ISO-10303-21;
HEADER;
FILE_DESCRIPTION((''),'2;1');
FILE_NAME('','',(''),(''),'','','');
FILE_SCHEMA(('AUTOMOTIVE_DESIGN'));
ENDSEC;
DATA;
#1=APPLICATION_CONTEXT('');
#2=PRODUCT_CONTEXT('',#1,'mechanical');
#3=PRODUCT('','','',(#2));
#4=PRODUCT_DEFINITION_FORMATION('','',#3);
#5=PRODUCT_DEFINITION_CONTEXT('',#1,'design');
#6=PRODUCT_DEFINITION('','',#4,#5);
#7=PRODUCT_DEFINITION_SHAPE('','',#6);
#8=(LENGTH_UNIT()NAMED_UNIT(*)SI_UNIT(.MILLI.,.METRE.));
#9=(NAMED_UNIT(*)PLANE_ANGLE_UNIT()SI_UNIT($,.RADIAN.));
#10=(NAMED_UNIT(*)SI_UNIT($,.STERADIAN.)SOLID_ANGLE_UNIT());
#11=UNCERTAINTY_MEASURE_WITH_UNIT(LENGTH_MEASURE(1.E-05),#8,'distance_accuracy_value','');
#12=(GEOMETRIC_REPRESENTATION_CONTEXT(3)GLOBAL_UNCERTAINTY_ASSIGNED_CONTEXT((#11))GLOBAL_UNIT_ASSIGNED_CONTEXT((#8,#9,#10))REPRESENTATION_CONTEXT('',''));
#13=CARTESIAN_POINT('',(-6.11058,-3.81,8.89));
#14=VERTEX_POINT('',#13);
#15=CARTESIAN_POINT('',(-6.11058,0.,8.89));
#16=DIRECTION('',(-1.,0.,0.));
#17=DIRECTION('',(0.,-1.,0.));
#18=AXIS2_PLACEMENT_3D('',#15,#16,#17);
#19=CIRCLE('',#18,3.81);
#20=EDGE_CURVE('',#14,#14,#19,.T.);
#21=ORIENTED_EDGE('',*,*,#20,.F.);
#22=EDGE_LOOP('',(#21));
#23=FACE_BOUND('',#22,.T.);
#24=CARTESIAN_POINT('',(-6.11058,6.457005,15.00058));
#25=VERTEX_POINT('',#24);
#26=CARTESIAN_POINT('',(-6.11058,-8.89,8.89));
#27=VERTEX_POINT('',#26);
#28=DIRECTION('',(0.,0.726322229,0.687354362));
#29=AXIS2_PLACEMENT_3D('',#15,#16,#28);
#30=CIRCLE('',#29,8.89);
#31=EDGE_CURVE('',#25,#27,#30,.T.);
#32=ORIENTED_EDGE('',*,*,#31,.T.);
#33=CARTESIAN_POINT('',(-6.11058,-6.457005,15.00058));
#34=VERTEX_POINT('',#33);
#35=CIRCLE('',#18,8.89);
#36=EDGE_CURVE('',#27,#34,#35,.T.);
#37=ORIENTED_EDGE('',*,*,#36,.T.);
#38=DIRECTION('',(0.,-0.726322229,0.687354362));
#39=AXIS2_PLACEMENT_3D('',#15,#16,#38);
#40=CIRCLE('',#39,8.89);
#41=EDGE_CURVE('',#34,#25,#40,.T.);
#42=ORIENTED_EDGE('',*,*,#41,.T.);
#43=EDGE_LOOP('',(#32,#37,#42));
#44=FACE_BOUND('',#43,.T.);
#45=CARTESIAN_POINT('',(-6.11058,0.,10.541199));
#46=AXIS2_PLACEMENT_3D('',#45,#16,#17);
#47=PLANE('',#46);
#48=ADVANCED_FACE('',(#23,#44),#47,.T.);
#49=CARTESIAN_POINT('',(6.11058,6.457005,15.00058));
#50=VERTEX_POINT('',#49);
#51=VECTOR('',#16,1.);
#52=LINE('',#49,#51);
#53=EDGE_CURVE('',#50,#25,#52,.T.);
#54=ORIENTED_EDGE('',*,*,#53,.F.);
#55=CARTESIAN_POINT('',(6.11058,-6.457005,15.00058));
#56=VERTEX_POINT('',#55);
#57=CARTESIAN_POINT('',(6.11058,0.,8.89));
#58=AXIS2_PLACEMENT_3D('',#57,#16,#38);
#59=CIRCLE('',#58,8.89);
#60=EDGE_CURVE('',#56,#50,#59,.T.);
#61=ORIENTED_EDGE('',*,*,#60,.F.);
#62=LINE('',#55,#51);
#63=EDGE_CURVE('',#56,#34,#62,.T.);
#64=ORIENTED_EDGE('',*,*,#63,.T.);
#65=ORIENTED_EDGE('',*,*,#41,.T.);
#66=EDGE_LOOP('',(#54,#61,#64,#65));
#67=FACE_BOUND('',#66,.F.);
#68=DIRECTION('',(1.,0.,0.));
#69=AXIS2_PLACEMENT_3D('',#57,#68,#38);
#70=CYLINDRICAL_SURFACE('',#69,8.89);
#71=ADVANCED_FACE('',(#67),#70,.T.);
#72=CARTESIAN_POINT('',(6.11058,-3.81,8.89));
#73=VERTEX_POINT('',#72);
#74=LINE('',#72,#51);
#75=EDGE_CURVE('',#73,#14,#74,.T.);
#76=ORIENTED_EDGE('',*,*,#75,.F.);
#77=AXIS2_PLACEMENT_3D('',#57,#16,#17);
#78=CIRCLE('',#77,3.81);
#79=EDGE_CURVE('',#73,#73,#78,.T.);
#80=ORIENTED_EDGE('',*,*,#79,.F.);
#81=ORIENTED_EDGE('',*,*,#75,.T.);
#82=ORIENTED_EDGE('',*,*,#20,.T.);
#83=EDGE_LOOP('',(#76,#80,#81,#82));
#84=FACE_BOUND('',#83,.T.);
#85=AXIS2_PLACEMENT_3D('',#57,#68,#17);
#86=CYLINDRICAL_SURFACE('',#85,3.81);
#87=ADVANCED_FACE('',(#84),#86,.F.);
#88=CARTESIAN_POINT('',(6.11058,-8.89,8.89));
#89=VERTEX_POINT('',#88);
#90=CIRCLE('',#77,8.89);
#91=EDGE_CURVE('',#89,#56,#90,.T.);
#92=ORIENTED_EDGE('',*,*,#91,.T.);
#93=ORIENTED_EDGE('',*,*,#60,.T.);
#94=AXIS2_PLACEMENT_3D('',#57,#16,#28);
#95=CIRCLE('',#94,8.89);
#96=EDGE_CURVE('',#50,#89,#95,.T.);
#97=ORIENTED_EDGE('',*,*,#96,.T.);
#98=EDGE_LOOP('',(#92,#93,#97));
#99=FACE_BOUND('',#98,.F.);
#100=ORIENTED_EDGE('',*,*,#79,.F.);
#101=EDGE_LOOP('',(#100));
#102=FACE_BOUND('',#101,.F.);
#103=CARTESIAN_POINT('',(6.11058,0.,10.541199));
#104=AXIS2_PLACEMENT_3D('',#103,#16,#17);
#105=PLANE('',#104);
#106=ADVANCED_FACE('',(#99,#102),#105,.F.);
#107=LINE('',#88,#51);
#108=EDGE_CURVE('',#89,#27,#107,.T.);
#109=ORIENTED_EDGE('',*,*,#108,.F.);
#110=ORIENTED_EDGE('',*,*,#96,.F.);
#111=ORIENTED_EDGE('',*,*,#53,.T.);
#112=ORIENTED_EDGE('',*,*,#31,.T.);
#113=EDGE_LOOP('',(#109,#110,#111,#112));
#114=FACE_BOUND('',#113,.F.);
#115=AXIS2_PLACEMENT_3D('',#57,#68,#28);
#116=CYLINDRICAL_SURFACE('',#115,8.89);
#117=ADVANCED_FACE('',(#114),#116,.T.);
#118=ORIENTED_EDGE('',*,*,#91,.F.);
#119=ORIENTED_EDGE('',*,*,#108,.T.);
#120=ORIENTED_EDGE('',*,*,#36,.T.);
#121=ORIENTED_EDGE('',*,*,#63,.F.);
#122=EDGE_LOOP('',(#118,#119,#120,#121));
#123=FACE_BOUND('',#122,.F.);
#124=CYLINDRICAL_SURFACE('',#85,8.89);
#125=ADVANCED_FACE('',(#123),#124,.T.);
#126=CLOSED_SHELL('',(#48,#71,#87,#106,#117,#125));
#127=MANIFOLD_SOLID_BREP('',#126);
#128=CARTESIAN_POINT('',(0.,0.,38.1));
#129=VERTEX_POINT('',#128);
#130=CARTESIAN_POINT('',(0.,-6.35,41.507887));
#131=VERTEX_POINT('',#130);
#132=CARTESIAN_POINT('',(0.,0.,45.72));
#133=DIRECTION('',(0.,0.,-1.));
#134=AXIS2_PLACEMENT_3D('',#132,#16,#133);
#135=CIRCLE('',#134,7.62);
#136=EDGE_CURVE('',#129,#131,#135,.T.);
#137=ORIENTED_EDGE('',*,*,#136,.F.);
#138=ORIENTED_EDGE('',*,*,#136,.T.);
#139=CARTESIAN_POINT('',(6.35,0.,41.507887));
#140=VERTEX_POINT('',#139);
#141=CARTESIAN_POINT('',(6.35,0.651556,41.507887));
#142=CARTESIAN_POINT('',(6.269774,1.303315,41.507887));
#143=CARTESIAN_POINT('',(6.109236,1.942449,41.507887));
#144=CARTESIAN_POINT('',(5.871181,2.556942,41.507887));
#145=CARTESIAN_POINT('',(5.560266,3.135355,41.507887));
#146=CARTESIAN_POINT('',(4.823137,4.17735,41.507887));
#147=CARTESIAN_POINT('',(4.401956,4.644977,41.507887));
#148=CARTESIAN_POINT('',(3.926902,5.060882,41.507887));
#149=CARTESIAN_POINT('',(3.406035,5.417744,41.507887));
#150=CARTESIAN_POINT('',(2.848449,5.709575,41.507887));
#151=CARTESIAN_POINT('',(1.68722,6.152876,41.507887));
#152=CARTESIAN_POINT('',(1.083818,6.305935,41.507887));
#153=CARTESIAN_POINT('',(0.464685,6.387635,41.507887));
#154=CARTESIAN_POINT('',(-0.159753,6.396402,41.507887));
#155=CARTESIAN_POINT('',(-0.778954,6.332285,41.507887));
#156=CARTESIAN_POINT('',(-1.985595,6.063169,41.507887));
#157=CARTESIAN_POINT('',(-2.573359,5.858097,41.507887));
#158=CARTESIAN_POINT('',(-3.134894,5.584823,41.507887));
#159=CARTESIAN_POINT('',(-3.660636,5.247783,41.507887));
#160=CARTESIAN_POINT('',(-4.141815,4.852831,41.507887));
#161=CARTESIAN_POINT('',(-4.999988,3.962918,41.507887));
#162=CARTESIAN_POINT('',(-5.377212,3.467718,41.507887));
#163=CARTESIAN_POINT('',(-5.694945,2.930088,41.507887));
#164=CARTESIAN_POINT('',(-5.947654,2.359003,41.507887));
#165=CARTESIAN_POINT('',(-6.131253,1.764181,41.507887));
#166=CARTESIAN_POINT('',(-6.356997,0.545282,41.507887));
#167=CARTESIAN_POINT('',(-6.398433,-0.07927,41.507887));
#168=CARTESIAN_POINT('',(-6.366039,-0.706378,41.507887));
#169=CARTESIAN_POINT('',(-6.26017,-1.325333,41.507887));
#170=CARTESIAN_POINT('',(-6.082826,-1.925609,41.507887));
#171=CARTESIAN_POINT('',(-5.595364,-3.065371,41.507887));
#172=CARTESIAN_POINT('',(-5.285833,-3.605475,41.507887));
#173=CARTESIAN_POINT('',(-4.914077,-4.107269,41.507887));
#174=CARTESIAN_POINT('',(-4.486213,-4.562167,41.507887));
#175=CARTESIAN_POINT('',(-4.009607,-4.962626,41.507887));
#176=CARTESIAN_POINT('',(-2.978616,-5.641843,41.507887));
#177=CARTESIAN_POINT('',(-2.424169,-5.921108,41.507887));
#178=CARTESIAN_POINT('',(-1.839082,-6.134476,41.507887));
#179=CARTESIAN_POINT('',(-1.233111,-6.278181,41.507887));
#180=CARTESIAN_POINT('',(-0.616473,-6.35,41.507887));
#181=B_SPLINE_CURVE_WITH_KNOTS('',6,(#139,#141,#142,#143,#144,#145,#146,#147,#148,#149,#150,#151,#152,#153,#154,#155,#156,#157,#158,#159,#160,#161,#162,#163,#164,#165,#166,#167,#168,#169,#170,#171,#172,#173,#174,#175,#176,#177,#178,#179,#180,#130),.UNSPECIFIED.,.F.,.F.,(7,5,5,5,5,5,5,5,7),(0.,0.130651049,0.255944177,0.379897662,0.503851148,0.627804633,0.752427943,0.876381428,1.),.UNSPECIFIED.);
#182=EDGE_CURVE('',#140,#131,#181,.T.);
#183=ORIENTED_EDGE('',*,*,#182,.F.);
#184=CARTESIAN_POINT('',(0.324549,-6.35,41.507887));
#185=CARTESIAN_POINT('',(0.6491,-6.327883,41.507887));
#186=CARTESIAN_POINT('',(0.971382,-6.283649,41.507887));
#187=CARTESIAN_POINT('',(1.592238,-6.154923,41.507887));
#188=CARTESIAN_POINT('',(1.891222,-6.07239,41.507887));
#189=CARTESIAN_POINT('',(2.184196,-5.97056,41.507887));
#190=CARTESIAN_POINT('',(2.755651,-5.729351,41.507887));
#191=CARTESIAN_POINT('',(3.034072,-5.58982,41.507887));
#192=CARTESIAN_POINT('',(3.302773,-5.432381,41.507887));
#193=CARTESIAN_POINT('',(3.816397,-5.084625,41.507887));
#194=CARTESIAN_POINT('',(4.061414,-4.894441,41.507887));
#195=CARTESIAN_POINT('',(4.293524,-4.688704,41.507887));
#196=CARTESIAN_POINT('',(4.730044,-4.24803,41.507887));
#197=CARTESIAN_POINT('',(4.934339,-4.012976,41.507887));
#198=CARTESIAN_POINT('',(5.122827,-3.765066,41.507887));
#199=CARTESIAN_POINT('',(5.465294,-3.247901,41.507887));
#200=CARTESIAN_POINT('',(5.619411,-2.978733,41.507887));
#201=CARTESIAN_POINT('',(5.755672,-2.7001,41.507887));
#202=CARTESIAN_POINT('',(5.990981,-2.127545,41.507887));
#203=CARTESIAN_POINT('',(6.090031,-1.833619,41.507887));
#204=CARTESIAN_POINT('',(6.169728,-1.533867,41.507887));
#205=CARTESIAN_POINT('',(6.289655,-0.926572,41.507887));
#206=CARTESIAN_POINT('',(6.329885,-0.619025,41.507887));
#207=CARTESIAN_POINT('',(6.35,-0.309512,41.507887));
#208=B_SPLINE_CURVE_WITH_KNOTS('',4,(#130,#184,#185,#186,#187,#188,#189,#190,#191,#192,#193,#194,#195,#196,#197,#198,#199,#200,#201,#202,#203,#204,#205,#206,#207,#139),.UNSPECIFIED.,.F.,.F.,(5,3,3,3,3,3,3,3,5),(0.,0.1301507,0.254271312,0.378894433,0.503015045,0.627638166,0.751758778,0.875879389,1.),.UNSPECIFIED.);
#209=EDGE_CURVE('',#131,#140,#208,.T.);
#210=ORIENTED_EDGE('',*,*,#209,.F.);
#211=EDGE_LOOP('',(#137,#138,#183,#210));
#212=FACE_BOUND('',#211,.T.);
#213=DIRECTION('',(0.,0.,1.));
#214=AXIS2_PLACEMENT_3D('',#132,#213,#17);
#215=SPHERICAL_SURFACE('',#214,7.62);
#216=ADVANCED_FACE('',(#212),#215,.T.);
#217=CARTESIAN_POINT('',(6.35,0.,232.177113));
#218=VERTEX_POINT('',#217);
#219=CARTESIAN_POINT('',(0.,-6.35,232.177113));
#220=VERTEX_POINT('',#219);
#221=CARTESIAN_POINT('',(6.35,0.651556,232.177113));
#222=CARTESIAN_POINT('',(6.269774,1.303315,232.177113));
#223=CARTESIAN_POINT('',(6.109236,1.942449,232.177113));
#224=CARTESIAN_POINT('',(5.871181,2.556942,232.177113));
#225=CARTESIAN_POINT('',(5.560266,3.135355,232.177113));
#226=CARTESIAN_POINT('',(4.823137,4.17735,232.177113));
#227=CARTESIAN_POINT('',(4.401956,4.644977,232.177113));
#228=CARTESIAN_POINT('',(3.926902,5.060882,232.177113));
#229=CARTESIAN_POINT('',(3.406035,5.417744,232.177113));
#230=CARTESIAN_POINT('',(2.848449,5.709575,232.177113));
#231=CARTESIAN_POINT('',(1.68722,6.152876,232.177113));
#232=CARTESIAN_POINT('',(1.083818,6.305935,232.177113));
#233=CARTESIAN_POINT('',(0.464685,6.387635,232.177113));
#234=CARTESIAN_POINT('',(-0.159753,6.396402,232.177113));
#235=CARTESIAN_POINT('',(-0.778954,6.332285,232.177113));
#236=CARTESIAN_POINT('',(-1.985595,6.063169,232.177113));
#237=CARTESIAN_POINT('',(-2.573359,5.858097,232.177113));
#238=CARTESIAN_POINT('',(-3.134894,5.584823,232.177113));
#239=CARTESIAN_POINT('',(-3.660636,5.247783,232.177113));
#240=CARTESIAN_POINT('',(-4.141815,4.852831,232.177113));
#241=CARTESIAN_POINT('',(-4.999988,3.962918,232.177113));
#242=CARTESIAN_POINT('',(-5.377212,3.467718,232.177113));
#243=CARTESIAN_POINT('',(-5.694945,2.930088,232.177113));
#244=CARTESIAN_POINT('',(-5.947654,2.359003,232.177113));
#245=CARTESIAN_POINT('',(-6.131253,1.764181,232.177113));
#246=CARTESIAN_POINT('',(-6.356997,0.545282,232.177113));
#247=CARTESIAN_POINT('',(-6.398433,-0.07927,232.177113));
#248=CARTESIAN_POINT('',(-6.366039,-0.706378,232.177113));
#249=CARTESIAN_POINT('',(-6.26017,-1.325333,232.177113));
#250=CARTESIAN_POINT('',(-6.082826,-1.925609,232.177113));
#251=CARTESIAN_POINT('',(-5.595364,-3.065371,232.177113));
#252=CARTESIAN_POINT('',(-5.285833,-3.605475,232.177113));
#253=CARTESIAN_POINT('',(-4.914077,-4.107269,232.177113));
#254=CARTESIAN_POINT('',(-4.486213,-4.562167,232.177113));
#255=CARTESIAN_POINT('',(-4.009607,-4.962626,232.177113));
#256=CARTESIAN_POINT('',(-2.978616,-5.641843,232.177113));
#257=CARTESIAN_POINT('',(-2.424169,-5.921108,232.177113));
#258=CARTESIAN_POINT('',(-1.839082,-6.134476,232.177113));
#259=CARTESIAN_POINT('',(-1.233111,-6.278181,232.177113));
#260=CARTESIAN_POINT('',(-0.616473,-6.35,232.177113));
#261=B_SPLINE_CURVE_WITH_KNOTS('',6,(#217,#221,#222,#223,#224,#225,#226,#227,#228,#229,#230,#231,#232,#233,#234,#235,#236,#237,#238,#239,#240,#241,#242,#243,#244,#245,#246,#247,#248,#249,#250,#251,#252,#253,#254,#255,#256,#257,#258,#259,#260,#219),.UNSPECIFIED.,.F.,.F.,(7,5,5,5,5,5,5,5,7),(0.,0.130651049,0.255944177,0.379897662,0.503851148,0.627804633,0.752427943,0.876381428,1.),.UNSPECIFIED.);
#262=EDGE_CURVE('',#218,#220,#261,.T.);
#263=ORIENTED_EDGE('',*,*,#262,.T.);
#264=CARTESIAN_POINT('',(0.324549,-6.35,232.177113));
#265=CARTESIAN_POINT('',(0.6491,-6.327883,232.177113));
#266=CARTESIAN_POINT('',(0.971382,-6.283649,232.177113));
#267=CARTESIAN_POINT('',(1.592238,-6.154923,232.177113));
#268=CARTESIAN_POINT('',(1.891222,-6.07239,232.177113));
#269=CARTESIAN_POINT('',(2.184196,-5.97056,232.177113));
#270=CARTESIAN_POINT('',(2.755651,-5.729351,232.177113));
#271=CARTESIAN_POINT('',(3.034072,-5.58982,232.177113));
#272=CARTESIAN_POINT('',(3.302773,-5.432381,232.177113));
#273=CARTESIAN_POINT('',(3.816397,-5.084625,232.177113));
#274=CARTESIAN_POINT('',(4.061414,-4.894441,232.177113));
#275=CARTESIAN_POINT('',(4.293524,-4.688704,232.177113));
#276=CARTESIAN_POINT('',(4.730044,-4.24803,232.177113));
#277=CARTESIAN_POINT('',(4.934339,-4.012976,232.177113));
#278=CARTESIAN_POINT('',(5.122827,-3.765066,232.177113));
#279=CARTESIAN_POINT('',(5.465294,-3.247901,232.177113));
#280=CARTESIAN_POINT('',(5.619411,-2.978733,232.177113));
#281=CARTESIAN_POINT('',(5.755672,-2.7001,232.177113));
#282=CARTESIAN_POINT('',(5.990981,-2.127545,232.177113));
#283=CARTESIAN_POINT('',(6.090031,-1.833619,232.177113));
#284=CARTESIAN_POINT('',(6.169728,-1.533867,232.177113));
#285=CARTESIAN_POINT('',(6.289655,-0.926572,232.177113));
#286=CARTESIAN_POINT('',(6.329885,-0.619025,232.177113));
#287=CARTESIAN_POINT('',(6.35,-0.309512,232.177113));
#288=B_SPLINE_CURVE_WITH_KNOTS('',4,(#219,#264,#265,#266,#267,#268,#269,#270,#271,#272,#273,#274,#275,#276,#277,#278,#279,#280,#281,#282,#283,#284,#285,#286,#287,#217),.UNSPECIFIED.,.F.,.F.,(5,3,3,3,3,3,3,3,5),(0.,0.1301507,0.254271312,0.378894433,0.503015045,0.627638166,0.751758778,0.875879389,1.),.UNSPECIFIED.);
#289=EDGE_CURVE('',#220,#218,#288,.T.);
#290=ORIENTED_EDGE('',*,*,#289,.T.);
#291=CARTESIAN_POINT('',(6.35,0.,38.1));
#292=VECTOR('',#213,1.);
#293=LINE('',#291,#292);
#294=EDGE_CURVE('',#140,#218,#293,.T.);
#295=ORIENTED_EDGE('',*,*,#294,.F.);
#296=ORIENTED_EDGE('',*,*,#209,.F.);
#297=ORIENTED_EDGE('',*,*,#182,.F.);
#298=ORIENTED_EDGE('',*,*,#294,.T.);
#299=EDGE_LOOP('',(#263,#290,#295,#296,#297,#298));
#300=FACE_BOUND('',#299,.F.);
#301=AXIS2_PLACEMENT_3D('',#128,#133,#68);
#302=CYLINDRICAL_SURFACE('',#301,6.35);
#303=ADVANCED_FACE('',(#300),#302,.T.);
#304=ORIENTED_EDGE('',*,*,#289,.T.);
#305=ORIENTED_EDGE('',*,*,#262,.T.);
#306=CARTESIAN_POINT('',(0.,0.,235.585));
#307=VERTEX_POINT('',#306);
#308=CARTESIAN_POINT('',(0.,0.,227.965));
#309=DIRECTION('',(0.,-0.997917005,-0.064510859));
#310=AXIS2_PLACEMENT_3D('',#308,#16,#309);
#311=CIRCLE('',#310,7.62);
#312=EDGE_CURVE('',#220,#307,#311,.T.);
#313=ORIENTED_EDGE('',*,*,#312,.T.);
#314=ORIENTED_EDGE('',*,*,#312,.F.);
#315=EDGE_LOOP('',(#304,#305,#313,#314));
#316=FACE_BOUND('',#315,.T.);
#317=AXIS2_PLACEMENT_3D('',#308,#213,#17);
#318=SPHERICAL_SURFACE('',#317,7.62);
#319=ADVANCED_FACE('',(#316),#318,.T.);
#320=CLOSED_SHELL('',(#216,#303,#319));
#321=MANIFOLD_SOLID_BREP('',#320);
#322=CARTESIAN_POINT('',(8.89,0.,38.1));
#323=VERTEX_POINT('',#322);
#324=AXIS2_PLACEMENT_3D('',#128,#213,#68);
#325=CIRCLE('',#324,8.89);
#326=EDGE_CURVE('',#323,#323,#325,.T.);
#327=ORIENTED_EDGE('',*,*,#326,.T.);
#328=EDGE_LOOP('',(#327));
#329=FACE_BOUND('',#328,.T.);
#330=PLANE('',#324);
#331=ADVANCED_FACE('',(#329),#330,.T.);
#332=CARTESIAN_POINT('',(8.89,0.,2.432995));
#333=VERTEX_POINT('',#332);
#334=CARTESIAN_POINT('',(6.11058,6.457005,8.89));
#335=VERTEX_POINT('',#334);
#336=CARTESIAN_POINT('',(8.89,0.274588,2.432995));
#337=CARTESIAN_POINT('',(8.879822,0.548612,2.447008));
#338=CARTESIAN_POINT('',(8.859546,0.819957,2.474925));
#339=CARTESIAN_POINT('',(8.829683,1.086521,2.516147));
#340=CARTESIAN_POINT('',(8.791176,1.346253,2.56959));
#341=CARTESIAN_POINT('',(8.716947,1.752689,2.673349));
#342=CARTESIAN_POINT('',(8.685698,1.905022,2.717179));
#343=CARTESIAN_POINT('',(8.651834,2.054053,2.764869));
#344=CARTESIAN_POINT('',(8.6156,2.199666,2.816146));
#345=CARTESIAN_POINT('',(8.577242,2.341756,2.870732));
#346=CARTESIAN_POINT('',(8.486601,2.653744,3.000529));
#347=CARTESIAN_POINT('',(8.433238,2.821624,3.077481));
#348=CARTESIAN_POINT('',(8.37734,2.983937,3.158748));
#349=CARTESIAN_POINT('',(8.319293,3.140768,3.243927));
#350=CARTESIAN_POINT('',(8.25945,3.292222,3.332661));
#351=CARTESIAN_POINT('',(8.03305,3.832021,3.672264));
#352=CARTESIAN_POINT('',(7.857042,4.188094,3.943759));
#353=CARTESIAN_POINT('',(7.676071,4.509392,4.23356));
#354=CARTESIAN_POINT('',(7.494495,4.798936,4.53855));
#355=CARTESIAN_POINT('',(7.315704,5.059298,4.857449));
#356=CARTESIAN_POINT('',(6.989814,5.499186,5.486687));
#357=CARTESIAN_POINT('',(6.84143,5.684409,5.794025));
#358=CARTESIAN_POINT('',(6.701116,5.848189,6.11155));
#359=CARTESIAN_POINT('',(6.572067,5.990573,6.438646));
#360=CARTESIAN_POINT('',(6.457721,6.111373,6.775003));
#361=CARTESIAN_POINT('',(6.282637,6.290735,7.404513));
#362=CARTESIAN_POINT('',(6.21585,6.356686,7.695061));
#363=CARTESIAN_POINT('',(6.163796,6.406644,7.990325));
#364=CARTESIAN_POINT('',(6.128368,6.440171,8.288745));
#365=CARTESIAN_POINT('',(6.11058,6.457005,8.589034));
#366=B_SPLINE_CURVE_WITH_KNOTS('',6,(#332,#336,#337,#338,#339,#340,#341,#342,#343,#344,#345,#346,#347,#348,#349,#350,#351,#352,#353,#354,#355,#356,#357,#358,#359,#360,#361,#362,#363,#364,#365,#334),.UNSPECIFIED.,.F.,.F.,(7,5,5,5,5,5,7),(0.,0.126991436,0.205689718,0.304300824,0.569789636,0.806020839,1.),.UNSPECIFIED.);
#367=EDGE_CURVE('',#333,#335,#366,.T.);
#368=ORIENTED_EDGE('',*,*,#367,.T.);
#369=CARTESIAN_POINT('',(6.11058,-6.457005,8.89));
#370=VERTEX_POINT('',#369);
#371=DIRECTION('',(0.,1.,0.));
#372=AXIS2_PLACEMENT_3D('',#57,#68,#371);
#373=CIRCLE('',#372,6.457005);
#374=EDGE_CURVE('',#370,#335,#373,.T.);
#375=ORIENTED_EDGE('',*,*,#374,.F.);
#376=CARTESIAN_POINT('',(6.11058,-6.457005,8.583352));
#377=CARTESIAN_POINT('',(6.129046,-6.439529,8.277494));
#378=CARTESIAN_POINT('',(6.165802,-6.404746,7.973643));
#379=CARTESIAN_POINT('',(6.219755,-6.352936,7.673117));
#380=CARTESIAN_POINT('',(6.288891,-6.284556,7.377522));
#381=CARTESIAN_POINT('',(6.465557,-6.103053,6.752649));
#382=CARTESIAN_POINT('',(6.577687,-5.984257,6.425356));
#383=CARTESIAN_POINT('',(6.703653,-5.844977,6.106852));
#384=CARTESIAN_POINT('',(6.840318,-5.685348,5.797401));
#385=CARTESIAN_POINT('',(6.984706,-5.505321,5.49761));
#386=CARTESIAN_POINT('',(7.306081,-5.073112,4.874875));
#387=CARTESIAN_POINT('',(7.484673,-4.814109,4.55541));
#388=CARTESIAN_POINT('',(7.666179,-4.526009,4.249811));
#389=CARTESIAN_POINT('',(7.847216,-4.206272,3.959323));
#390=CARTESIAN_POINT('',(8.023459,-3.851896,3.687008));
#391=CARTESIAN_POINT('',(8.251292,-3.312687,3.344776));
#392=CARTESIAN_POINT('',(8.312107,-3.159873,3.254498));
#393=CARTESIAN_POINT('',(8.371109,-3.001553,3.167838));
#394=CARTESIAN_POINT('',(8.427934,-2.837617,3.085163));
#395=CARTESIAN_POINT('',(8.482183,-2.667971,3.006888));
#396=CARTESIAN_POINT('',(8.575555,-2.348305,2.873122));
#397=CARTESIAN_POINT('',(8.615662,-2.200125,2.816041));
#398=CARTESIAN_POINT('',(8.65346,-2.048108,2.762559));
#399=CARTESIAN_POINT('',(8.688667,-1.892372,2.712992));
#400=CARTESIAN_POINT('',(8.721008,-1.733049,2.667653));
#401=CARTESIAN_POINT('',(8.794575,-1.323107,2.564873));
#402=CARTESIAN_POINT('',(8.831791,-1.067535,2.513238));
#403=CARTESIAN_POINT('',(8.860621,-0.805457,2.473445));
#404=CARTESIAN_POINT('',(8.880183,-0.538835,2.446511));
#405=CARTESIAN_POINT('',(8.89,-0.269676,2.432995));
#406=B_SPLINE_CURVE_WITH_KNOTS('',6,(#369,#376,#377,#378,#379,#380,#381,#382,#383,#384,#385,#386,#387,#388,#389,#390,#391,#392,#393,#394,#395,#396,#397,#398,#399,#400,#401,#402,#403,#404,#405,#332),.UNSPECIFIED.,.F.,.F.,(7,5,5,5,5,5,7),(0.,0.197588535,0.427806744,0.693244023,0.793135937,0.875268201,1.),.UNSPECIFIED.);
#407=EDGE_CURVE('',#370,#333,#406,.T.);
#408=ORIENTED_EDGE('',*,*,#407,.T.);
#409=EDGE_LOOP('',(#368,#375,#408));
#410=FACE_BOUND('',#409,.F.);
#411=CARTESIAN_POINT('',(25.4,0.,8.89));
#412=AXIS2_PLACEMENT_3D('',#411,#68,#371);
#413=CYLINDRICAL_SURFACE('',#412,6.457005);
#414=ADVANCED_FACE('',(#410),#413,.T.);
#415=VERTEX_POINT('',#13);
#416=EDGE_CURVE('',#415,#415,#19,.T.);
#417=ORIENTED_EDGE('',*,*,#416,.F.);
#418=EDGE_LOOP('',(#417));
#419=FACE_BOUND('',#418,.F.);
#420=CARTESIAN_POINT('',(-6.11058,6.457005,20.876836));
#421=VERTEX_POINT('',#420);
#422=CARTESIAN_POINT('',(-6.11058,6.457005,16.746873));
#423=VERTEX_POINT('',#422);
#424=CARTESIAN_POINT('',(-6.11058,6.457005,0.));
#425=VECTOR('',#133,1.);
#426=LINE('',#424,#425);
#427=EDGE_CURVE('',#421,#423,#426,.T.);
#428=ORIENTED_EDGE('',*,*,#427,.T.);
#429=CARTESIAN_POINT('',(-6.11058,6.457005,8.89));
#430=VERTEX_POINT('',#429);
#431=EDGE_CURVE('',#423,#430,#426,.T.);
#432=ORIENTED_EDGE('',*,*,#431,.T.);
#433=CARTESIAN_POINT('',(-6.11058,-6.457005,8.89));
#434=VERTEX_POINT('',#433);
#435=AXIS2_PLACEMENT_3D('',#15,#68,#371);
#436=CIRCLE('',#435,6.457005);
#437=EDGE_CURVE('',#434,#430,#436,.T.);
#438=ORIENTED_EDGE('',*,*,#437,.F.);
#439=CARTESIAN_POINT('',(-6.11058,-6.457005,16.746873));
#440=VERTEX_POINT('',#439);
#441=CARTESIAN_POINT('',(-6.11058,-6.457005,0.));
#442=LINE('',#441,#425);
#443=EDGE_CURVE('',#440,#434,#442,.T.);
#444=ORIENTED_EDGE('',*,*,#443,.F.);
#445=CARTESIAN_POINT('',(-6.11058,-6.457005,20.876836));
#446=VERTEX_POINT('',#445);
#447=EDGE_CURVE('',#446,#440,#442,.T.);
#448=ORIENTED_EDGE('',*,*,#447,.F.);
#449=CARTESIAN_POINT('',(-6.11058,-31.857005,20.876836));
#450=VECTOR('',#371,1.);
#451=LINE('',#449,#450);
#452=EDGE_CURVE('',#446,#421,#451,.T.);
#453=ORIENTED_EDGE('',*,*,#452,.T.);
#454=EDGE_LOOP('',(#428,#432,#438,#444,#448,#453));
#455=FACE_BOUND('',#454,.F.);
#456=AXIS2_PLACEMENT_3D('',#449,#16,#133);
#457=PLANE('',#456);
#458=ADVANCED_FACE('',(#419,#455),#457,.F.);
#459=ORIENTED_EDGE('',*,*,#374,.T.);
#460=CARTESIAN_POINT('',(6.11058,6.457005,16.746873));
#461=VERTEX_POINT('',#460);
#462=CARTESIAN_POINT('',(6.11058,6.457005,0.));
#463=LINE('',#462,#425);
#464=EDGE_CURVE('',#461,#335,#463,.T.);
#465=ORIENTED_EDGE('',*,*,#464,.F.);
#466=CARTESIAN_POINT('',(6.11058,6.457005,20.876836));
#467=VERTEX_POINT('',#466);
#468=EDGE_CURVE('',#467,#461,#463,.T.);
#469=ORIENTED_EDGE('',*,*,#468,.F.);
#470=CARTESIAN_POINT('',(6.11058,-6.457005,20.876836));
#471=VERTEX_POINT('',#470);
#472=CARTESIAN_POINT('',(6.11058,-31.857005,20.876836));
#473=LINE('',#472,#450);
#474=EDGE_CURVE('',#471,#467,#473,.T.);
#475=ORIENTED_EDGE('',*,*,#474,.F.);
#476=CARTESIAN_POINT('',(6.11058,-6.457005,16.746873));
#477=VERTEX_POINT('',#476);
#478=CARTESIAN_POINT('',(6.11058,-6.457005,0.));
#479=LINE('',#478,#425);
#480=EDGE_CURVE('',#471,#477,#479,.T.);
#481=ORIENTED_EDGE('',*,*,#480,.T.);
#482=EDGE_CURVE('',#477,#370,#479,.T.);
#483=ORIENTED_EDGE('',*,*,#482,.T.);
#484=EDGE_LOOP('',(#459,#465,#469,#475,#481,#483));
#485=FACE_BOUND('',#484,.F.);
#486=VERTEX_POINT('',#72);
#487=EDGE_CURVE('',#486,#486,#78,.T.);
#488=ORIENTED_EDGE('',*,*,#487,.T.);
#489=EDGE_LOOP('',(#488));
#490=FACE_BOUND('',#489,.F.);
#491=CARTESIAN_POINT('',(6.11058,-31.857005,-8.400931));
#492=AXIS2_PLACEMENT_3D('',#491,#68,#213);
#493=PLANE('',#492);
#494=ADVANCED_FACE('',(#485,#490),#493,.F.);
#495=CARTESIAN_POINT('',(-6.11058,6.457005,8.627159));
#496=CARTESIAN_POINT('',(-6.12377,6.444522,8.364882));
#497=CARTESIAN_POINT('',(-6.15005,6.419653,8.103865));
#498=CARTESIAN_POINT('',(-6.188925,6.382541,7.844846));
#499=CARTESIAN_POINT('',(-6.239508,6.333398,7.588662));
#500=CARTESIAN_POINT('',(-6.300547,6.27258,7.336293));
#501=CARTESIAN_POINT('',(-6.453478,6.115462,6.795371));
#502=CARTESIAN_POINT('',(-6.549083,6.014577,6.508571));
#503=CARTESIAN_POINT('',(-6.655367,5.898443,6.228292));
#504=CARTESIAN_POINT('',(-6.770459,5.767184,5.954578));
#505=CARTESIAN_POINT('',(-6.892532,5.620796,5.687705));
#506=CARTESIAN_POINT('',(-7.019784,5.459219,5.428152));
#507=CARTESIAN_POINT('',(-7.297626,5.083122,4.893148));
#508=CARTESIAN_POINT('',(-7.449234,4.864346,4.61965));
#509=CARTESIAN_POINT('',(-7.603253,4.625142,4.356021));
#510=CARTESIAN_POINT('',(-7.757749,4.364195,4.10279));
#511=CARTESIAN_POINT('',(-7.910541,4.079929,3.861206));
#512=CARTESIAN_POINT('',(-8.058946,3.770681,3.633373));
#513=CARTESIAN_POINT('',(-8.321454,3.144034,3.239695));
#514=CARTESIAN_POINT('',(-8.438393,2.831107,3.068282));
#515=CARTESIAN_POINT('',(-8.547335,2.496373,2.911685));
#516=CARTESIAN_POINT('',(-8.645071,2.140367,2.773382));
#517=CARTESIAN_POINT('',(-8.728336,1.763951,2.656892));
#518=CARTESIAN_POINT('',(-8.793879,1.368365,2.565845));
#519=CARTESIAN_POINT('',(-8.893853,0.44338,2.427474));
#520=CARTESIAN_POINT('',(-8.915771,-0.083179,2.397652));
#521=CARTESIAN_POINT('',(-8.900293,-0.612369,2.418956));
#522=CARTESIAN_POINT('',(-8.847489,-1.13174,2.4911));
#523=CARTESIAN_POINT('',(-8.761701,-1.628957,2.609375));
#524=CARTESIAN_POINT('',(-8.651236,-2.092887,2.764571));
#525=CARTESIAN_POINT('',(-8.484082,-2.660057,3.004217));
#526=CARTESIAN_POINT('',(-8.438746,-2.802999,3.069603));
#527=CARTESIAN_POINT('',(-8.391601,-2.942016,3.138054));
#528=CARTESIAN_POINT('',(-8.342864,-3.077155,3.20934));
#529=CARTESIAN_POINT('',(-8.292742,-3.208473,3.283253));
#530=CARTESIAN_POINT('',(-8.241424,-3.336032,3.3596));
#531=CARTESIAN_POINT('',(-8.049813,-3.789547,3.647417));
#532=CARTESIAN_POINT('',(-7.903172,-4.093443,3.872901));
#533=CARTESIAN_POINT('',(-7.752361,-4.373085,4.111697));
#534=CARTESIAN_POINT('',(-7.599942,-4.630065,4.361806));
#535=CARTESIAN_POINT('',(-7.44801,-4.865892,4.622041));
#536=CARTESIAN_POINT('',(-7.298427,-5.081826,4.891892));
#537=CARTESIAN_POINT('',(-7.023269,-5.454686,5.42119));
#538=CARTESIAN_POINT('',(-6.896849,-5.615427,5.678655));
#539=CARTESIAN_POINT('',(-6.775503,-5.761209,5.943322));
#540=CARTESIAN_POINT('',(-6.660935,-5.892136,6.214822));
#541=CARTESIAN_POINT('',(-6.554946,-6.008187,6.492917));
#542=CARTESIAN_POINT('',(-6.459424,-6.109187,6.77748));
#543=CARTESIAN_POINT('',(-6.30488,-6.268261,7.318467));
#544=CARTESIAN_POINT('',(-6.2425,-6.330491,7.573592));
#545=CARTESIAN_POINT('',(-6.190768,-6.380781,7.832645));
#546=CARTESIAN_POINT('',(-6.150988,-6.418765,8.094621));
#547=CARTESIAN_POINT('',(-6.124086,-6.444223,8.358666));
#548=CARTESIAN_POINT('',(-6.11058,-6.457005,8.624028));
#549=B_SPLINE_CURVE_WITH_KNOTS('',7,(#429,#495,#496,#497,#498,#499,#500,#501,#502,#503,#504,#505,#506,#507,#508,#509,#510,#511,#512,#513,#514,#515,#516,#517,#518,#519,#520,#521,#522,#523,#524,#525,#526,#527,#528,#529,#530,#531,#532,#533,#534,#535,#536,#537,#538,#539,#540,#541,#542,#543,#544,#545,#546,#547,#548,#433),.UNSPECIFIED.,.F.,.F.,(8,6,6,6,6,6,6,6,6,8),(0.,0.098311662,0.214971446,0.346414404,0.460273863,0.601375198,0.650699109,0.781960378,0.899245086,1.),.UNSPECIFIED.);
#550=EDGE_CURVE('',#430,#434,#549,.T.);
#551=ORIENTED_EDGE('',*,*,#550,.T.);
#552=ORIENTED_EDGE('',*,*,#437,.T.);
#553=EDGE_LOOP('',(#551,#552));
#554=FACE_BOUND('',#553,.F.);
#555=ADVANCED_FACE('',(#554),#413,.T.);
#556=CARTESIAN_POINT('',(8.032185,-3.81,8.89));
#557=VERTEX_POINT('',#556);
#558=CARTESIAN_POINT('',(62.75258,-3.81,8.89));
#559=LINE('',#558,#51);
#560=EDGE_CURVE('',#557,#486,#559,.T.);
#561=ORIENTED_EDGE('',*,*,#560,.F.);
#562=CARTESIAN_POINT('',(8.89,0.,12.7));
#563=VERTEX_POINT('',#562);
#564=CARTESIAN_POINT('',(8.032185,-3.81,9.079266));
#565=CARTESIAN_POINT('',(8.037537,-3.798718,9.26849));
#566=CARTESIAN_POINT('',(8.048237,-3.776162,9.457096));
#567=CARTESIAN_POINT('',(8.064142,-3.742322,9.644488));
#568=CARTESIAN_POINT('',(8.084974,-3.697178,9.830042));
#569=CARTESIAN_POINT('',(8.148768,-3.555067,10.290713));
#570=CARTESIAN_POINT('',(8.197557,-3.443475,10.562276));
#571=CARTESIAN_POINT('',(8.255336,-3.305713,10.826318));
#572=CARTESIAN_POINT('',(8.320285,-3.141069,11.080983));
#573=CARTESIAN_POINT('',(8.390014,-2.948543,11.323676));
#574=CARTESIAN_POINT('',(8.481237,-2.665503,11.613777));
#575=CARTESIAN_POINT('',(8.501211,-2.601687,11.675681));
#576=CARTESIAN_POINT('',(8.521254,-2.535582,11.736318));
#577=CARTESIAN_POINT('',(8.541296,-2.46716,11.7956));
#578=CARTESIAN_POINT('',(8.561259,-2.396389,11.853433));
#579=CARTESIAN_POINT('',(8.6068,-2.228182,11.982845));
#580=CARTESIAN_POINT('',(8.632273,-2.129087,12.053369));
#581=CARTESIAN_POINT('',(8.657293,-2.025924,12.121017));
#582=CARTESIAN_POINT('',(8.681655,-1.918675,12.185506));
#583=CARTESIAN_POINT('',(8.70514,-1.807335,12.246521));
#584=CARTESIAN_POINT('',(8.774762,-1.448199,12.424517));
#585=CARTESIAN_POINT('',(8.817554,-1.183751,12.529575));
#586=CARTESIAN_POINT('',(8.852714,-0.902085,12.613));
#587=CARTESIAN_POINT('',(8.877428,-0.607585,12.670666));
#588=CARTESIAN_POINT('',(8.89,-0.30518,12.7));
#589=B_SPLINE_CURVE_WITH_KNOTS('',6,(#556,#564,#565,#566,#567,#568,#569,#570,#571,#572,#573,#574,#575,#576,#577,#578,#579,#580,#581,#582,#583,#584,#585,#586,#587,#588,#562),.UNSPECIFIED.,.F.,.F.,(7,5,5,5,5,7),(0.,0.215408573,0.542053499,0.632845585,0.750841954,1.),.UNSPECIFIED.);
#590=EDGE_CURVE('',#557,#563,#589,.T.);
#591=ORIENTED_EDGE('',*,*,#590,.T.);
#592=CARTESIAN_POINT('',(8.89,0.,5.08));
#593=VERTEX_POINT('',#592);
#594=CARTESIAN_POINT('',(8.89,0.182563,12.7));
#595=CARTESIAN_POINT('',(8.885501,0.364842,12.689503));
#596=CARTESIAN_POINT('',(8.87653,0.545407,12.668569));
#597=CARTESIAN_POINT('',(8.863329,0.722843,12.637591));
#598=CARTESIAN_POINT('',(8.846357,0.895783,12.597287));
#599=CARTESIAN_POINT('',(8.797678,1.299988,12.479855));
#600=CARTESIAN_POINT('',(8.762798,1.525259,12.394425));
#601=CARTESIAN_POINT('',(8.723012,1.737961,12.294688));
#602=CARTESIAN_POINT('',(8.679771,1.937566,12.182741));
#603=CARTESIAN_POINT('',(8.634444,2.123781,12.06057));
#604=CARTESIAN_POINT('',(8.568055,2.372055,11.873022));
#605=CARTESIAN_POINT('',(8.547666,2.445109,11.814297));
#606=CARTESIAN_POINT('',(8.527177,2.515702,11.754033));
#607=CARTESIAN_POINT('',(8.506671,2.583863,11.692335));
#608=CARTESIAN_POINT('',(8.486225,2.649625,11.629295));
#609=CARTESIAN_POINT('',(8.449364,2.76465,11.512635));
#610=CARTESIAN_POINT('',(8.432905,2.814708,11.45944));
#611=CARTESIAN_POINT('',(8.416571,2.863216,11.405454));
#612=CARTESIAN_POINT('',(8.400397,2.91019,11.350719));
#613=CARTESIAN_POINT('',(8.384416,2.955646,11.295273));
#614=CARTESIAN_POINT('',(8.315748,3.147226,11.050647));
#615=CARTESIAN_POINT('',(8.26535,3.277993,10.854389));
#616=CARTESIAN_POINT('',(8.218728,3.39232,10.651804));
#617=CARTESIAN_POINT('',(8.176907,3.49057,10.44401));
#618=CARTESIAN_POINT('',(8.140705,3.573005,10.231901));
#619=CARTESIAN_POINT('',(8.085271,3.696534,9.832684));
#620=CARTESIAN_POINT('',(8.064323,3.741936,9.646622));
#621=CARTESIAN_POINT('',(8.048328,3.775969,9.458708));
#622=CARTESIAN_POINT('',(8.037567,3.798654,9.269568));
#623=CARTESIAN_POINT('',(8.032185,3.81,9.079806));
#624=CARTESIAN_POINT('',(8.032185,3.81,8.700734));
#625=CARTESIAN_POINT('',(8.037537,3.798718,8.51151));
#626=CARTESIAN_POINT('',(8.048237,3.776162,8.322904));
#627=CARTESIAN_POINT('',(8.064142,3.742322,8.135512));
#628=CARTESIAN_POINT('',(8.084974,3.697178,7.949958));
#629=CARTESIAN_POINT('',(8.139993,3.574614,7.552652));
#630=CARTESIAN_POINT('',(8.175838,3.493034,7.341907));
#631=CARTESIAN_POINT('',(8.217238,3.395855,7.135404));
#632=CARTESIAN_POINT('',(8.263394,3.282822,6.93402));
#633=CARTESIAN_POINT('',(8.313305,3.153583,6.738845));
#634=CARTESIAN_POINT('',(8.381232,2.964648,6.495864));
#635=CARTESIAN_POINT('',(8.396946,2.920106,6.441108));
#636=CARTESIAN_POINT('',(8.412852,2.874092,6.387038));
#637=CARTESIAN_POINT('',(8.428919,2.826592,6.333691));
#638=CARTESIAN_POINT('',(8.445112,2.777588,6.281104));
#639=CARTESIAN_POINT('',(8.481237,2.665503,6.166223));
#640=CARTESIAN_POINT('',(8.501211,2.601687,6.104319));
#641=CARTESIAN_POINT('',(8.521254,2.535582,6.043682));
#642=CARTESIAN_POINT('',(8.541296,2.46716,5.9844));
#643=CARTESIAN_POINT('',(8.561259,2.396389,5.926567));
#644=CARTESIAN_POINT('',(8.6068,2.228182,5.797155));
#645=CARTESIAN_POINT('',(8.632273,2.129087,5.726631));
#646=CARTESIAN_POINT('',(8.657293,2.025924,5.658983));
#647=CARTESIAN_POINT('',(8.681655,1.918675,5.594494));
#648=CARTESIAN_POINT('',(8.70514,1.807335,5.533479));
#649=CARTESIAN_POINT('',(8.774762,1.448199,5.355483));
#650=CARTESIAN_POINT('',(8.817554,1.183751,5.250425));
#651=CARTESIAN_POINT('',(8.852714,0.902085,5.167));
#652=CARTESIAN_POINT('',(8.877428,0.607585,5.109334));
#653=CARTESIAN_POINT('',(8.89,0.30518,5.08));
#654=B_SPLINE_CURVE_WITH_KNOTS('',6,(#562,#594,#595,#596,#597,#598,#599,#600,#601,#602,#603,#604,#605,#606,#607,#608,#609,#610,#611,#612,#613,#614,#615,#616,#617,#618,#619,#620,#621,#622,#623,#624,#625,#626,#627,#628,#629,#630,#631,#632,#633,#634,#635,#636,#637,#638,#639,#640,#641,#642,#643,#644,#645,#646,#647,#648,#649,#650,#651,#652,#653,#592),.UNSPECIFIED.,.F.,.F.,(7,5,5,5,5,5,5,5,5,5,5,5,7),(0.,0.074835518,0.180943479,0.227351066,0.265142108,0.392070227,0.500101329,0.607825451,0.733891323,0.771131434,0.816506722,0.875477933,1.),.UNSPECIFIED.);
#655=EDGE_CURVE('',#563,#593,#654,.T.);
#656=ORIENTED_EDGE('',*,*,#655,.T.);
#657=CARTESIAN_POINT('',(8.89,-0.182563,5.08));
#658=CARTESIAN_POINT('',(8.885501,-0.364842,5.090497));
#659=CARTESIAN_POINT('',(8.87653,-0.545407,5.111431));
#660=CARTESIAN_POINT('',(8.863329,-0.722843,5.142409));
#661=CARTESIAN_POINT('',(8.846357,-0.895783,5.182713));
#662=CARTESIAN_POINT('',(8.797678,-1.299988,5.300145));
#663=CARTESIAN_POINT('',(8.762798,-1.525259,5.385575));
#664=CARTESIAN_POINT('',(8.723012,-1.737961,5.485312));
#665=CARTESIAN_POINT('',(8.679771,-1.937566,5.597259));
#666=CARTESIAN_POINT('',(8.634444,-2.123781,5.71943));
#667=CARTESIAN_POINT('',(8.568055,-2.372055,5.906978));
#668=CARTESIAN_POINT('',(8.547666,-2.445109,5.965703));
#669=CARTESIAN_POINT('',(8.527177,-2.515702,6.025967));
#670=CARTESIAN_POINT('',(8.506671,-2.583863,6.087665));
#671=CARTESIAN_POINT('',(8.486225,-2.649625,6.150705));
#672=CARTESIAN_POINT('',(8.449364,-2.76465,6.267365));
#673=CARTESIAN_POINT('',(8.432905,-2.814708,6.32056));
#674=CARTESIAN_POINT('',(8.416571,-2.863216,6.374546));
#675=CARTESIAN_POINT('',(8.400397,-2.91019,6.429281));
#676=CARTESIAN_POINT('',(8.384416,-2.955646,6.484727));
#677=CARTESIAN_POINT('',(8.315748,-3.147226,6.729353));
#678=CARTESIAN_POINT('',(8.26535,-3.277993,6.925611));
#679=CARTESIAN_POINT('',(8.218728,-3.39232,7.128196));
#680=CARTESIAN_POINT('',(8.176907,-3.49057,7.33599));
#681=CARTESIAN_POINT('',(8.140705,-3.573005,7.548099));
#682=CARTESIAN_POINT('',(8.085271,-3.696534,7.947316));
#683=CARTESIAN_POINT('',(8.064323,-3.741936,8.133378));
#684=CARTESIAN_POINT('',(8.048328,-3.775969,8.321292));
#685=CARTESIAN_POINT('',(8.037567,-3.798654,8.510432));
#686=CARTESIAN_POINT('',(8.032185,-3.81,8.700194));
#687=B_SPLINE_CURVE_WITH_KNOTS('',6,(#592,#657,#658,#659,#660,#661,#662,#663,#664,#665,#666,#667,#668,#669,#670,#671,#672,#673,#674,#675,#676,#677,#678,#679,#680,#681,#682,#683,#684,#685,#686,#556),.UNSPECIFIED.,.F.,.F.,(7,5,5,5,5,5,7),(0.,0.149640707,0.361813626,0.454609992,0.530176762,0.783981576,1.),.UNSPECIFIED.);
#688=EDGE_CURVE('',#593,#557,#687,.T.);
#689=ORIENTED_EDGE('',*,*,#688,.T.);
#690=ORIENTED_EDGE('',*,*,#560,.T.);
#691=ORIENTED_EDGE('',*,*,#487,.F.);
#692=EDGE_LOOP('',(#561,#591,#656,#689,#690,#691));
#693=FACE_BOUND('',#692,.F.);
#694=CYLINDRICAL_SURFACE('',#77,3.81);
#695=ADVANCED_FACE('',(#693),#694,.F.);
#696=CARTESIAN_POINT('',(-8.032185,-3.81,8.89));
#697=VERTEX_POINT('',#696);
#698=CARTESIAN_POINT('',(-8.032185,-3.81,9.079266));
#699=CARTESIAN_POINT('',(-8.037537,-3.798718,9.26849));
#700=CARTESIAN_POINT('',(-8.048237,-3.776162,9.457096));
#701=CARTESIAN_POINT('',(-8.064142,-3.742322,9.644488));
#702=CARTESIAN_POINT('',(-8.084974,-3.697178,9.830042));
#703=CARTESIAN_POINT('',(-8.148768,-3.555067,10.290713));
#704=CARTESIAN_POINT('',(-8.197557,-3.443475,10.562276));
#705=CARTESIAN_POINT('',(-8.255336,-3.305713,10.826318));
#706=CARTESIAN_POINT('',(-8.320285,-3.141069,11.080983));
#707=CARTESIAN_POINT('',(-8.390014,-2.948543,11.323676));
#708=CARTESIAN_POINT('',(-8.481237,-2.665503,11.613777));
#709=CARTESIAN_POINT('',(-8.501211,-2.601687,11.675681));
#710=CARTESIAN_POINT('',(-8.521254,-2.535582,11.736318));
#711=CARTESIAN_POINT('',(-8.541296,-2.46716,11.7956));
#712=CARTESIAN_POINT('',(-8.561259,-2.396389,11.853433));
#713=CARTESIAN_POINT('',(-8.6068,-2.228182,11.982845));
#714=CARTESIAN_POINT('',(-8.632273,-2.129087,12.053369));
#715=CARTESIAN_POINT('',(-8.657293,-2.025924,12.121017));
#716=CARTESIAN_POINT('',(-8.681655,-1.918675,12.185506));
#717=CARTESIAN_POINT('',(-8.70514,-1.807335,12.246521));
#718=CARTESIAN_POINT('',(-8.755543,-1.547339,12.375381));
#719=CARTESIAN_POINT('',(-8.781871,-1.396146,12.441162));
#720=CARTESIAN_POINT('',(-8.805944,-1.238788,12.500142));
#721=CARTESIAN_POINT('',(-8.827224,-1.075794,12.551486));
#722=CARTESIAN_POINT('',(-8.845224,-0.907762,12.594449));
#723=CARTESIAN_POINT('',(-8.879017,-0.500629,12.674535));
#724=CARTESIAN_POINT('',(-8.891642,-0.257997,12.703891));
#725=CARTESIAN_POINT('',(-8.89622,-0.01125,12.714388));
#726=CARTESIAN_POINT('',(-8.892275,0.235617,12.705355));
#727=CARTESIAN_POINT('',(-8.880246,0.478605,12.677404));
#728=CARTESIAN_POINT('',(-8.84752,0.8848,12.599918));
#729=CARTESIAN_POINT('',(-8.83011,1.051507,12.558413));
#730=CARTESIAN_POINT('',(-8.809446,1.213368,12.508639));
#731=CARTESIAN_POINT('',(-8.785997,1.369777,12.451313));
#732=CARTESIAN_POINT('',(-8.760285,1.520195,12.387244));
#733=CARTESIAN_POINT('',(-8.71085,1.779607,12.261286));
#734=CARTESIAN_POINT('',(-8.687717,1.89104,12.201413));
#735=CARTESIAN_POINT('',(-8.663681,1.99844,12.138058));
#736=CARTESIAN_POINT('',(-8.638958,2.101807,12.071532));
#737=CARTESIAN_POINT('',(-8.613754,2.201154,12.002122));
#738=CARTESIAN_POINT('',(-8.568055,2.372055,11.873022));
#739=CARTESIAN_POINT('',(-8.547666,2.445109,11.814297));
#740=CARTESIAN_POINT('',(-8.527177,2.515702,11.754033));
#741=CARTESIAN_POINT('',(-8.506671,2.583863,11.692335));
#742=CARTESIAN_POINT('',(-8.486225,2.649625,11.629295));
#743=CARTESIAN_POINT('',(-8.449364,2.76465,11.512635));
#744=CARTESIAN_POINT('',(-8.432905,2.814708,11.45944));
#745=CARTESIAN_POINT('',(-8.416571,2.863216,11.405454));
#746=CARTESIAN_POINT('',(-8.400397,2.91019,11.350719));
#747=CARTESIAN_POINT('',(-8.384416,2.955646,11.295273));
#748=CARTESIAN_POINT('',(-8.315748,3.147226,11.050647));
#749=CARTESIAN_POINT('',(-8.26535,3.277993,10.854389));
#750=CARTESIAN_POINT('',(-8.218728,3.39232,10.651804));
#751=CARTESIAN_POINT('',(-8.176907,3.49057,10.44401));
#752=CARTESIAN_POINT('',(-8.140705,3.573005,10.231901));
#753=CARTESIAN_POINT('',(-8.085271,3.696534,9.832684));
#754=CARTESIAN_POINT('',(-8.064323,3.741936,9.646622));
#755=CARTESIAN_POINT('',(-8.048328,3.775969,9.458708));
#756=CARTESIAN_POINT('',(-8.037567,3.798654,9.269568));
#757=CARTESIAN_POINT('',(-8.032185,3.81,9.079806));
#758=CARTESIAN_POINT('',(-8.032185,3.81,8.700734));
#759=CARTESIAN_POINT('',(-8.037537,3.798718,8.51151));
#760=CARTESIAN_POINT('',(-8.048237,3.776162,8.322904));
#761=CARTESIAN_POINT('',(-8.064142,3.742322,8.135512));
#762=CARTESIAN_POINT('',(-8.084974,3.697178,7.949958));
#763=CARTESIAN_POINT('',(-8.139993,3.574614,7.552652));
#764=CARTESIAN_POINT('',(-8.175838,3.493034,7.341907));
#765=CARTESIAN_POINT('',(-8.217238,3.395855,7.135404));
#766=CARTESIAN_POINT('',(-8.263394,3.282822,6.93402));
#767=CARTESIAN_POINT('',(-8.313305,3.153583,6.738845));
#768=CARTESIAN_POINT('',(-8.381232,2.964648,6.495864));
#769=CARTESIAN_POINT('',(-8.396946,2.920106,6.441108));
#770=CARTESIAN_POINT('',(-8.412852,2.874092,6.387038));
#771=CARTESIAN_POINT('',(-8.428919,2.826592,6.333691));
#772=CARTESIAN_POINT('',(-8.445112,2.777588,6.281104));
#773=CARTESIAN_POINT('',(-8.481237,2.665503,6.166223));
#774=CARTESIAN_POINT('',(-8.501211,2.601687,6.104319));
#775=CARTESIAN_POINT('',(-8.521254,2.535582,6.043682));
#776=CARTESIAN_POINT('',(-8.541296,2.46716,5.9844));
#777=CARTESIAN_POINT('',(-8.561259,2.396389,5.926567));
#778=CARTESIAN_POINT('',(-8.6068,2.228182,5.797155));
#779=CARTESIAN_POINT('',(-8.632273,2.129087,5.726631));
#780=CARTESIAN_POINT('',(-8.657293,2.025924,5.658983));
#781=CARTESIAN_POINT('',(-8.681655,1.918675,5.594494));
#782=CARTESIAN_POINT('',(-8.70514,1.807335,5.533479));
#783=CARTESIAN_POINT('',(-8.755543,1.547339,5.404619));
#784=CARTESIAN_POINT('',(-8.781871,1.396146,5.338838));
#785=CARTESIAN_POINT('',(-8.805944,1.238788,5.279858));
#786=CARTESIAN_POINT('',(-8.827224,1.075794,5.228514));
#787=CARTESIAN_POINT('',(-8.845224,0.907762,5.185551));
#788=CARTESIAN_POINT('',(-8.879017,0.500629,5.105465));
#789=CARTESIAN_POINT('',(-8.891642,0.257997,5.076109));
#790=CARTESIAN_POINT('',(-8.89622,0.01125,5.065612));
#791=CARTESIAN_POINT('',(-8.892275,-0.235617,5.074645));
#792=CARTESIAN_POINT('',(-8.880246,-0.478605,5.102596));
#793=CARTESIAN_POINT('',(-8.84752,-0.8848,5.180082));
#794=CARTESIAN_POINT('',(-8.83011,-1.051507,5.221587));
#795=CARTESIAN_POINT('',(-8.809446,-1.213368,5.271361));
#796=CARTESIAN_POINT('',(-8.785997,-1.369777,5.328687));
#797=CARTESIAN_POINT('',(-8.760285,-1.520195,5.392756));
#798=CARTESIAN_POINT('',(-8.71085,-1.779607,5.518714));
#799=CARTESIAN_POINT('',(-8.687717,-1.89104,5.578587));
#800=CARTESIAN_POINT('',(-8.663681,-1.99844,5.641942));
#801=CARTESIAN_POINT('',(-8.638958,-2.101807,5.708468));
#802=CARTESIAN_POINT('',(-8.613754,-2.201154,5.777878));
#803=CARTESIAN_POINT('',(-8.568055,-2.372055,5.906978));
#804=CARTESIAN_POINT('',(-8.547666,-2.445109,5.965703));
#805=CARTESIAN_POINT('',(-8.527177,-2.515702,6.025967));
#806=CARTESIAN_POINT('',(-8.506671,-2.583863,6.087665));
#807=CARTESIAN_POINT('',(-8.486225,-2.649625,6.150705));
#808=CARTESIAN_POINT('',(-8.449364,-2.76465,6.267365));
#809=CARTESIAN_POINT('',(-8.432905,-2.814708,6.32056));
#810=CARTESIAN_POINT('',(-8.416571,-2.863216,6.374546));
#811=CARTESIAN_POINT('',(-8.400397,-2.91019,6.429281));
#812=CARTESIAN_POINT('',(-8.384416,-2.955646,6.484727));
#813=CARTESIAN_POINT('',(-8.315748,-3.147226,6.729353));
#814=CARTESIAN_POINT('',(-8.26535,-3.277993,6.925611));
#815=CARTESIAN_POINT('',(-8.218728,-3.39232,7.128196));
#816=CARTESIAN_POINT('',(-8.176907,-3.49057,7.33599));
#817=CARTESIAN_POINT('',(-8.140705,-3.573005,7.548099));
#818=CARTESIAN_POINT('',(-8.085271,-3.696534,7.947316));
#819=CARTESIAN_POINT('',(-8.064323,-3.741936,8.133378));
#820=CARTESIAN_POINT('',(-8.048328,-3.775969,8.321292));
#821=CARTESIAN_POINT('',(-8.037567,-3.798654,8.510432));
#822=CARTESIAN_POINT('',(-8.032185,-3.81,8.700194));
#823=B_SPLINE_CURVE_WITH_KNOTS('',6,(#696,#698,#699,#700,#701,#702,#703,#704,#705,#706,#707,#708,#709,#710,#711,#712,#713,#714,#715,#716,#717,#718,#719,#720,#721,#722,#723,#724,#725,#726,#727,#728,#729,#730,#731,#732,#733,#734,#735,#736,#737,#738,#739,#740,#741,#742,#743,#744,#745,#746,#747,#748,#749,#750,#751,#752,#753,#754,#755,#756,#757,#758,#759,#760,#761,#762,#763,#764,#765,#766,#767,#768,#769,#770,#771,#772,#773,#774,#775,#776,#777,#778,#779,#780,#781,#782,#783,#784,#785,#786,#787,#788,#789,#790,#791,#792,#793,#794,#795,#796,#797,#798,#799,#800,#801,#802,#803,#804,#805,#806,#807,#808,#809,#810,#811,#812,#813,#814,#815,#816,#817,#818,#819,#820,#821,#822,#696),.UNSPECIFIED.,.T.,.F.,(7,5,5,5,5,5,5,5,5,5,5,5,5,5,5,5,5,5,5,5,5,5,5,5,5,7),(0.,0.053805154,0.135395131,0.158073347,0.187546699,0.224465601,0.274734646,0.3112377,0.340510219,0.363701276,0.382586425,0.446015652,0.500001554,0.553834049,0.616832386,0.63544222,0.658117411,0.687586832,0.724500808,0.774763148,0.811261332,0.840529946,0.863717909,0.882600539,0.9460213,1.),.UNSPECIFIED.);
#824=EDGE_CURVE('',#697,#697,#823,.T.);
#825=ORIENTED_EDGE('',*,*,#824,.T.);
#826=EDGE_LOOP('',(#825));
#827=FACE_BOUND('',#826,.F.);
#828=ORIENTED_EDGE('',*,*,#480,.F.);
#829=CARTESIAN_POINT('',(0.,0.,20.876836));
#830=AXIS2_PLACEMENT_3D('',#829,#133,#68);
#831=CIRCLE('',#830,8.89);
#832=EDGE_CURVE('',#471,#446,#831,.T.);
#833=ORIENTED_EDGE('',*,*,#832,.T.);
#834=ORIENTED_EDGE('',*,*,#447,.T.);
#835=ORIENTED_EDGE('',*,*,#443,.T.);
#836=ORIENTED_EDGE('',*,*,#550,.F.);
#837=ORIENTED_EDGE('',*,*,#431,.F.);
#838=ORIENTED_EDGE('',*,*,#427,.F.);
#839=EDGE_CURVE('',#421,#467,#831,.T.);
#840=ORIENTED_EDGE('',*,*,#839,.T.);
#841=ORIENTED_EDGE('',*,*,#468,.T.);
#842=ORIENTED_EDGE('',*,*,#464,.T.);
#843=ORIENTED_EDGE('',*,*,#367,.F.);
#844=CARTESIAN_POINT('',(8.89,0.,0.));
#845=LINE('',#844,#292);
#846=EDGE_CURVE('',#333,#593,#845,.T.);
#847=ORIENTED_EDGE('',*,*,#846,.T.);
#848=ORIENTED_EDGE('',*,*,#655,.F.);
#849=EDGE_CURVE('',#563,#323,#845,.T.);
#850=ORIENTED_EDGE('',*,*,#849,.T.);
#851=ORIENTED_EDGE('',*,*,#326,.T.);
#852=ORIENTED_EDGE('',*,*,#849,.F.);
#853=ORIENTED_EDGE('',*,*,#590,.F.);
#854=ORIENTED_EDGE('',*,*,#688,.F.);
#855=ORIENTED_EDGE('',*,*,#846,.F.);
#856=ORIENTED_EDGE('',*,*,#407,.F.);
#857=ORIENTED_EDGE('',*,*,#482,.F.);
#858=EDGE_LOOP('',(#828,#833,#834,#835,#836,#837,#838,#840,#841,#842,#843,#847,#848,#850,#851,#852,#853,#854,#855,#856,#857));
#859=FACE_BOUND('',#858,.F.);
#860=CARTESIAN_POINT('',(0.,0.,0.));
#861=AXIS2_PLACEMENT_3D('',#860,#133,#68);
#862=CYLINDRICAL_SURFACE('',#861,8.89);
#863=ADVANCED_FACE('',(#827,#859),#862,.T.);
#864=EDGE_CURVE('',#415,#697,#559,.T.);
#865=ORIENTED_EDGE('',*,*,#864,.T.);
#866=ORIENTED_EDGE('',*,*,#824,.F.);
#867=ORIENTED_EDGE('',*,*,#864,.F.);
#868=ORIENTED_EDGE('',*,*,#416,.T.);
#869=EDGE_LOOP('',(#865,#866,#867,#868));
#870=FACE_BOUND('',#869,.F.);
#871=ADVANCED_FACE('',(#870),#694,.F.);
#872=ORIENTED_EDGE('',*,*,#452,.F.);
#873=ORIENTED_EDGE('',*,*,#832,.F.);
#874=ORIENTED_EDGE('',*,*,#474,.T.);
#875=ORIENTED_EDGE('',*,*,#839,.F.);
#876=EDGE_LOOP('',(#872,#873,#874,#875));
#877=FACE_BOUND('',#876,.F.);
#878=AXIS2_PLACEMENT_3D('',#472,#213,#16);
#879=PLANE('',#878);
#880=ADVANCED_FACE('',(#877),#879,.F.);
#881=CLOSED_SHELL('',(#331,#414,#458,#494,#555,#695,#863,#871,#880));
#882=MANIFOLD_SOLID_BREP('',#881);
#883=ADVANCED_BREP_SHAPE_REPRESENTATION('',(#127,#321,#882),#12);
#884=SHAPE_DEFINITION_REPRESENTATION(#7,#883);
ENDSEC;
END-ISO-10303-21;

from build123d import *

# Parameters (mm, degrees)
F0_R      = 8.89
F1_DEPTH  = 38.1
F4_DEPTH  = 38.2524
F7_DEPTH  = 48.7934
F8_R      = 3.81
F9_DEPTH  = 56.642
F10_R     = 3.81
F11_DEPTH = 12.2211605602
F12_R     = 6.35
F13_DEPTH = 197.485


with BuildPart() as f1:
    # F0 (on Top) → F1 (new body)
    with BuildSketch(Plane.XY):
        Circle(F0_R)
    extrude(amount=F1_DEPTH)

    # F3 (on offset) → F4 (cut)
    with BuildSketch(Plane.YZ.offset(25.4)):
        with BuildLine():
            ThreePointArc((6.4570046183, 8.89), (0, 2.4329953817), (-6.4570046183, 8.89))
            Line((-6.4570046183, 8.89), (-6.4570046183, 16.746873036))
            Line((-6.4570046183, 16.746873036), (-10.0484732538, 18.0296134204))
            Line((-10.0484732538, 18.0296134204), (-10.0484732538, 27.6839248836))
            Line((-10.0484732538, 27.6839248836), (-15.5845116824, 29.5067671686))
            Line((-15.5845116824, 29.5067671686), (-19.2977078259, -10.0556556135))
            Line((-19.2977078259, -10.0556556135), (0, -10.0556556135))
            Line((0, -10.0556556135), (19.2977078259, -10.0556556135))
            Line((19.2977078259, -10.0556556135), (15.5845116824, 29.5067671686))
            Line((15.5845116824, 29.5067671686), (10.0484732538, 27.6839248836))
            Line((10.0484732538, 27.6839248836), (10.0484732538, 18.0296134204))
            Line((10.0484732538, 18.0296134204), (6.4570046183, 16.746873036))
            Line((6.4570046183, 16.746873036), (6.4570046183, 8.89))
        make_face()
    extrude(amount=-F4_DEPTH, mode=Mode.SUBTRACT)

    # F6 (on offset) → F7 (cut)
    with BuildSketch(Plane.XZ.offset(31.8570046183)):
        Polygon((6.1105802801, -8.4009311883), (6.1105802801, 8.89), (6.1105802801, 16.746873036), (6.1105802801, 20.8768360317), (-6.1105802801, 20.8768360317), (-6.1105802801, 16.746873036), (-6.1105802801, -8.4009311883), align=None)
    extrude(amount=-F7_DEPTH, mode=Mode.SUBTRACT)

    # F8 (on face) → F9 (cut, symmetric)
    with BuildSketch(Plane(origin=(6.1105802801, 0, 0), x_dir=(0, -1, 0), z_dir=(-1, 0, 0))):
        with Locations((0, 8.89)):
            Circle(F8_R)
    extrude(amount=F9_DEPTH, both=True, mode=Mode.SUBTRACT)


with BuildPart() as f11:
    # F10 (on face) → F11 (new body, through all)
    with BuildSketch(Plane(origin=(6.1105802801, 0, 0), x_dir=(0, -1, 0), z_dir=(-1, 0, 0))):
        with BuildLine():
            Line((6.4570046183, 8.89), (6.4570046183, 15.0005802801))
            ThreePointArc((6.4570046183, 15.0005802801), (0, 17.78), (-6.4570046183, 15.0005802801))
            Line((-6.4570046183, 15.0005802801), (-6.4570046183, 8.89))
            ThreePointArc((-6.4570046183, 8.89), (0, 2.4329953817), (6.4570046183, 8.89))
        make_face()
        with Locations((0, 8.89)):
            Circle(F10_R, mode=Mode.SUBTRACT)
        with BuildLine():
            ThreePointArc((-6.4570046183, 15.0005802801), (-3.2885657165, 0.6306153057), (8.89, 8.89))
            ThreePointArc((8.89, 8.89), (8.2593846943, 12.1785657165), (6.4570046183, 15.0005802801))
            Line((6.4570046183, 15.0005802801), (6.4570046183, 8.89))
            ThreePointArc((6.4570046183, 8.89), (0, 2.4329953817), (-6.4570046183, 8.89))
            Line((-6.4570046183, 8.89), (-6.4570046183, 15.0005802801))
        make_face()
    extrude(amount=F11_DEPTH)


with BuildPart() as f13:
    # F12 (on face) → F13 (new body)
    with BuildSketch(Plane.XY.offset(38.1)):
        Circle(F12_R)
    extrude(amount=F13_DEPTH)

    # F14 (on Right) → F15 (revolve, cut)
    with BuildSketch(Plane.YZ):
        with BuildLine():
            Line((0, 36.0566006196), (0, 38.1))
            ThreePointArc((0, 38.1), (-5.3881536726, 40.3318463274), (-7.62, 45.72))
            Line((-7.62, 45.72), (-9.0922005475, 45.72))
            Line((-9.0922005475, 45.72), (-9.0922005475, 36.0566006196))
            Line((-9.0922005475, 36.0566006196), (0, 36.0566006196))
        make_face()
    revolve(axis=Axis((0, 0, 49.53), (0, 0, 1)), mode=Mode.SUBTRACT)

    # F16 (on Right) → F17 (revolve, cut)
    with BuildSketch(Plane.YZ):
        with BuildLine():
            Line((-16.7539454997, 225.7774323225), (-7.604127579, 227.4734272558))
            ThreePointArc((-7.604127579, 227.4734272558), (-5.5592348534, 233.1764592817), (0, 235.585))
            Line((0, 235.585), (0, 245.8123266697))
            Line((0, 245.8123266697), (-18.5541827232, 245.8123266697))
            Line((-18.5541827232, 245.8123266697), (-16.7539454997, 225.7774323225))
        make_face()
    revolve(axis=Axis((0, 0, 236.8886633348), (0, 0, 1)), mode=Mode.SUBTRACT)


solid = Compound([f1.part, f11.part, f13.part])
